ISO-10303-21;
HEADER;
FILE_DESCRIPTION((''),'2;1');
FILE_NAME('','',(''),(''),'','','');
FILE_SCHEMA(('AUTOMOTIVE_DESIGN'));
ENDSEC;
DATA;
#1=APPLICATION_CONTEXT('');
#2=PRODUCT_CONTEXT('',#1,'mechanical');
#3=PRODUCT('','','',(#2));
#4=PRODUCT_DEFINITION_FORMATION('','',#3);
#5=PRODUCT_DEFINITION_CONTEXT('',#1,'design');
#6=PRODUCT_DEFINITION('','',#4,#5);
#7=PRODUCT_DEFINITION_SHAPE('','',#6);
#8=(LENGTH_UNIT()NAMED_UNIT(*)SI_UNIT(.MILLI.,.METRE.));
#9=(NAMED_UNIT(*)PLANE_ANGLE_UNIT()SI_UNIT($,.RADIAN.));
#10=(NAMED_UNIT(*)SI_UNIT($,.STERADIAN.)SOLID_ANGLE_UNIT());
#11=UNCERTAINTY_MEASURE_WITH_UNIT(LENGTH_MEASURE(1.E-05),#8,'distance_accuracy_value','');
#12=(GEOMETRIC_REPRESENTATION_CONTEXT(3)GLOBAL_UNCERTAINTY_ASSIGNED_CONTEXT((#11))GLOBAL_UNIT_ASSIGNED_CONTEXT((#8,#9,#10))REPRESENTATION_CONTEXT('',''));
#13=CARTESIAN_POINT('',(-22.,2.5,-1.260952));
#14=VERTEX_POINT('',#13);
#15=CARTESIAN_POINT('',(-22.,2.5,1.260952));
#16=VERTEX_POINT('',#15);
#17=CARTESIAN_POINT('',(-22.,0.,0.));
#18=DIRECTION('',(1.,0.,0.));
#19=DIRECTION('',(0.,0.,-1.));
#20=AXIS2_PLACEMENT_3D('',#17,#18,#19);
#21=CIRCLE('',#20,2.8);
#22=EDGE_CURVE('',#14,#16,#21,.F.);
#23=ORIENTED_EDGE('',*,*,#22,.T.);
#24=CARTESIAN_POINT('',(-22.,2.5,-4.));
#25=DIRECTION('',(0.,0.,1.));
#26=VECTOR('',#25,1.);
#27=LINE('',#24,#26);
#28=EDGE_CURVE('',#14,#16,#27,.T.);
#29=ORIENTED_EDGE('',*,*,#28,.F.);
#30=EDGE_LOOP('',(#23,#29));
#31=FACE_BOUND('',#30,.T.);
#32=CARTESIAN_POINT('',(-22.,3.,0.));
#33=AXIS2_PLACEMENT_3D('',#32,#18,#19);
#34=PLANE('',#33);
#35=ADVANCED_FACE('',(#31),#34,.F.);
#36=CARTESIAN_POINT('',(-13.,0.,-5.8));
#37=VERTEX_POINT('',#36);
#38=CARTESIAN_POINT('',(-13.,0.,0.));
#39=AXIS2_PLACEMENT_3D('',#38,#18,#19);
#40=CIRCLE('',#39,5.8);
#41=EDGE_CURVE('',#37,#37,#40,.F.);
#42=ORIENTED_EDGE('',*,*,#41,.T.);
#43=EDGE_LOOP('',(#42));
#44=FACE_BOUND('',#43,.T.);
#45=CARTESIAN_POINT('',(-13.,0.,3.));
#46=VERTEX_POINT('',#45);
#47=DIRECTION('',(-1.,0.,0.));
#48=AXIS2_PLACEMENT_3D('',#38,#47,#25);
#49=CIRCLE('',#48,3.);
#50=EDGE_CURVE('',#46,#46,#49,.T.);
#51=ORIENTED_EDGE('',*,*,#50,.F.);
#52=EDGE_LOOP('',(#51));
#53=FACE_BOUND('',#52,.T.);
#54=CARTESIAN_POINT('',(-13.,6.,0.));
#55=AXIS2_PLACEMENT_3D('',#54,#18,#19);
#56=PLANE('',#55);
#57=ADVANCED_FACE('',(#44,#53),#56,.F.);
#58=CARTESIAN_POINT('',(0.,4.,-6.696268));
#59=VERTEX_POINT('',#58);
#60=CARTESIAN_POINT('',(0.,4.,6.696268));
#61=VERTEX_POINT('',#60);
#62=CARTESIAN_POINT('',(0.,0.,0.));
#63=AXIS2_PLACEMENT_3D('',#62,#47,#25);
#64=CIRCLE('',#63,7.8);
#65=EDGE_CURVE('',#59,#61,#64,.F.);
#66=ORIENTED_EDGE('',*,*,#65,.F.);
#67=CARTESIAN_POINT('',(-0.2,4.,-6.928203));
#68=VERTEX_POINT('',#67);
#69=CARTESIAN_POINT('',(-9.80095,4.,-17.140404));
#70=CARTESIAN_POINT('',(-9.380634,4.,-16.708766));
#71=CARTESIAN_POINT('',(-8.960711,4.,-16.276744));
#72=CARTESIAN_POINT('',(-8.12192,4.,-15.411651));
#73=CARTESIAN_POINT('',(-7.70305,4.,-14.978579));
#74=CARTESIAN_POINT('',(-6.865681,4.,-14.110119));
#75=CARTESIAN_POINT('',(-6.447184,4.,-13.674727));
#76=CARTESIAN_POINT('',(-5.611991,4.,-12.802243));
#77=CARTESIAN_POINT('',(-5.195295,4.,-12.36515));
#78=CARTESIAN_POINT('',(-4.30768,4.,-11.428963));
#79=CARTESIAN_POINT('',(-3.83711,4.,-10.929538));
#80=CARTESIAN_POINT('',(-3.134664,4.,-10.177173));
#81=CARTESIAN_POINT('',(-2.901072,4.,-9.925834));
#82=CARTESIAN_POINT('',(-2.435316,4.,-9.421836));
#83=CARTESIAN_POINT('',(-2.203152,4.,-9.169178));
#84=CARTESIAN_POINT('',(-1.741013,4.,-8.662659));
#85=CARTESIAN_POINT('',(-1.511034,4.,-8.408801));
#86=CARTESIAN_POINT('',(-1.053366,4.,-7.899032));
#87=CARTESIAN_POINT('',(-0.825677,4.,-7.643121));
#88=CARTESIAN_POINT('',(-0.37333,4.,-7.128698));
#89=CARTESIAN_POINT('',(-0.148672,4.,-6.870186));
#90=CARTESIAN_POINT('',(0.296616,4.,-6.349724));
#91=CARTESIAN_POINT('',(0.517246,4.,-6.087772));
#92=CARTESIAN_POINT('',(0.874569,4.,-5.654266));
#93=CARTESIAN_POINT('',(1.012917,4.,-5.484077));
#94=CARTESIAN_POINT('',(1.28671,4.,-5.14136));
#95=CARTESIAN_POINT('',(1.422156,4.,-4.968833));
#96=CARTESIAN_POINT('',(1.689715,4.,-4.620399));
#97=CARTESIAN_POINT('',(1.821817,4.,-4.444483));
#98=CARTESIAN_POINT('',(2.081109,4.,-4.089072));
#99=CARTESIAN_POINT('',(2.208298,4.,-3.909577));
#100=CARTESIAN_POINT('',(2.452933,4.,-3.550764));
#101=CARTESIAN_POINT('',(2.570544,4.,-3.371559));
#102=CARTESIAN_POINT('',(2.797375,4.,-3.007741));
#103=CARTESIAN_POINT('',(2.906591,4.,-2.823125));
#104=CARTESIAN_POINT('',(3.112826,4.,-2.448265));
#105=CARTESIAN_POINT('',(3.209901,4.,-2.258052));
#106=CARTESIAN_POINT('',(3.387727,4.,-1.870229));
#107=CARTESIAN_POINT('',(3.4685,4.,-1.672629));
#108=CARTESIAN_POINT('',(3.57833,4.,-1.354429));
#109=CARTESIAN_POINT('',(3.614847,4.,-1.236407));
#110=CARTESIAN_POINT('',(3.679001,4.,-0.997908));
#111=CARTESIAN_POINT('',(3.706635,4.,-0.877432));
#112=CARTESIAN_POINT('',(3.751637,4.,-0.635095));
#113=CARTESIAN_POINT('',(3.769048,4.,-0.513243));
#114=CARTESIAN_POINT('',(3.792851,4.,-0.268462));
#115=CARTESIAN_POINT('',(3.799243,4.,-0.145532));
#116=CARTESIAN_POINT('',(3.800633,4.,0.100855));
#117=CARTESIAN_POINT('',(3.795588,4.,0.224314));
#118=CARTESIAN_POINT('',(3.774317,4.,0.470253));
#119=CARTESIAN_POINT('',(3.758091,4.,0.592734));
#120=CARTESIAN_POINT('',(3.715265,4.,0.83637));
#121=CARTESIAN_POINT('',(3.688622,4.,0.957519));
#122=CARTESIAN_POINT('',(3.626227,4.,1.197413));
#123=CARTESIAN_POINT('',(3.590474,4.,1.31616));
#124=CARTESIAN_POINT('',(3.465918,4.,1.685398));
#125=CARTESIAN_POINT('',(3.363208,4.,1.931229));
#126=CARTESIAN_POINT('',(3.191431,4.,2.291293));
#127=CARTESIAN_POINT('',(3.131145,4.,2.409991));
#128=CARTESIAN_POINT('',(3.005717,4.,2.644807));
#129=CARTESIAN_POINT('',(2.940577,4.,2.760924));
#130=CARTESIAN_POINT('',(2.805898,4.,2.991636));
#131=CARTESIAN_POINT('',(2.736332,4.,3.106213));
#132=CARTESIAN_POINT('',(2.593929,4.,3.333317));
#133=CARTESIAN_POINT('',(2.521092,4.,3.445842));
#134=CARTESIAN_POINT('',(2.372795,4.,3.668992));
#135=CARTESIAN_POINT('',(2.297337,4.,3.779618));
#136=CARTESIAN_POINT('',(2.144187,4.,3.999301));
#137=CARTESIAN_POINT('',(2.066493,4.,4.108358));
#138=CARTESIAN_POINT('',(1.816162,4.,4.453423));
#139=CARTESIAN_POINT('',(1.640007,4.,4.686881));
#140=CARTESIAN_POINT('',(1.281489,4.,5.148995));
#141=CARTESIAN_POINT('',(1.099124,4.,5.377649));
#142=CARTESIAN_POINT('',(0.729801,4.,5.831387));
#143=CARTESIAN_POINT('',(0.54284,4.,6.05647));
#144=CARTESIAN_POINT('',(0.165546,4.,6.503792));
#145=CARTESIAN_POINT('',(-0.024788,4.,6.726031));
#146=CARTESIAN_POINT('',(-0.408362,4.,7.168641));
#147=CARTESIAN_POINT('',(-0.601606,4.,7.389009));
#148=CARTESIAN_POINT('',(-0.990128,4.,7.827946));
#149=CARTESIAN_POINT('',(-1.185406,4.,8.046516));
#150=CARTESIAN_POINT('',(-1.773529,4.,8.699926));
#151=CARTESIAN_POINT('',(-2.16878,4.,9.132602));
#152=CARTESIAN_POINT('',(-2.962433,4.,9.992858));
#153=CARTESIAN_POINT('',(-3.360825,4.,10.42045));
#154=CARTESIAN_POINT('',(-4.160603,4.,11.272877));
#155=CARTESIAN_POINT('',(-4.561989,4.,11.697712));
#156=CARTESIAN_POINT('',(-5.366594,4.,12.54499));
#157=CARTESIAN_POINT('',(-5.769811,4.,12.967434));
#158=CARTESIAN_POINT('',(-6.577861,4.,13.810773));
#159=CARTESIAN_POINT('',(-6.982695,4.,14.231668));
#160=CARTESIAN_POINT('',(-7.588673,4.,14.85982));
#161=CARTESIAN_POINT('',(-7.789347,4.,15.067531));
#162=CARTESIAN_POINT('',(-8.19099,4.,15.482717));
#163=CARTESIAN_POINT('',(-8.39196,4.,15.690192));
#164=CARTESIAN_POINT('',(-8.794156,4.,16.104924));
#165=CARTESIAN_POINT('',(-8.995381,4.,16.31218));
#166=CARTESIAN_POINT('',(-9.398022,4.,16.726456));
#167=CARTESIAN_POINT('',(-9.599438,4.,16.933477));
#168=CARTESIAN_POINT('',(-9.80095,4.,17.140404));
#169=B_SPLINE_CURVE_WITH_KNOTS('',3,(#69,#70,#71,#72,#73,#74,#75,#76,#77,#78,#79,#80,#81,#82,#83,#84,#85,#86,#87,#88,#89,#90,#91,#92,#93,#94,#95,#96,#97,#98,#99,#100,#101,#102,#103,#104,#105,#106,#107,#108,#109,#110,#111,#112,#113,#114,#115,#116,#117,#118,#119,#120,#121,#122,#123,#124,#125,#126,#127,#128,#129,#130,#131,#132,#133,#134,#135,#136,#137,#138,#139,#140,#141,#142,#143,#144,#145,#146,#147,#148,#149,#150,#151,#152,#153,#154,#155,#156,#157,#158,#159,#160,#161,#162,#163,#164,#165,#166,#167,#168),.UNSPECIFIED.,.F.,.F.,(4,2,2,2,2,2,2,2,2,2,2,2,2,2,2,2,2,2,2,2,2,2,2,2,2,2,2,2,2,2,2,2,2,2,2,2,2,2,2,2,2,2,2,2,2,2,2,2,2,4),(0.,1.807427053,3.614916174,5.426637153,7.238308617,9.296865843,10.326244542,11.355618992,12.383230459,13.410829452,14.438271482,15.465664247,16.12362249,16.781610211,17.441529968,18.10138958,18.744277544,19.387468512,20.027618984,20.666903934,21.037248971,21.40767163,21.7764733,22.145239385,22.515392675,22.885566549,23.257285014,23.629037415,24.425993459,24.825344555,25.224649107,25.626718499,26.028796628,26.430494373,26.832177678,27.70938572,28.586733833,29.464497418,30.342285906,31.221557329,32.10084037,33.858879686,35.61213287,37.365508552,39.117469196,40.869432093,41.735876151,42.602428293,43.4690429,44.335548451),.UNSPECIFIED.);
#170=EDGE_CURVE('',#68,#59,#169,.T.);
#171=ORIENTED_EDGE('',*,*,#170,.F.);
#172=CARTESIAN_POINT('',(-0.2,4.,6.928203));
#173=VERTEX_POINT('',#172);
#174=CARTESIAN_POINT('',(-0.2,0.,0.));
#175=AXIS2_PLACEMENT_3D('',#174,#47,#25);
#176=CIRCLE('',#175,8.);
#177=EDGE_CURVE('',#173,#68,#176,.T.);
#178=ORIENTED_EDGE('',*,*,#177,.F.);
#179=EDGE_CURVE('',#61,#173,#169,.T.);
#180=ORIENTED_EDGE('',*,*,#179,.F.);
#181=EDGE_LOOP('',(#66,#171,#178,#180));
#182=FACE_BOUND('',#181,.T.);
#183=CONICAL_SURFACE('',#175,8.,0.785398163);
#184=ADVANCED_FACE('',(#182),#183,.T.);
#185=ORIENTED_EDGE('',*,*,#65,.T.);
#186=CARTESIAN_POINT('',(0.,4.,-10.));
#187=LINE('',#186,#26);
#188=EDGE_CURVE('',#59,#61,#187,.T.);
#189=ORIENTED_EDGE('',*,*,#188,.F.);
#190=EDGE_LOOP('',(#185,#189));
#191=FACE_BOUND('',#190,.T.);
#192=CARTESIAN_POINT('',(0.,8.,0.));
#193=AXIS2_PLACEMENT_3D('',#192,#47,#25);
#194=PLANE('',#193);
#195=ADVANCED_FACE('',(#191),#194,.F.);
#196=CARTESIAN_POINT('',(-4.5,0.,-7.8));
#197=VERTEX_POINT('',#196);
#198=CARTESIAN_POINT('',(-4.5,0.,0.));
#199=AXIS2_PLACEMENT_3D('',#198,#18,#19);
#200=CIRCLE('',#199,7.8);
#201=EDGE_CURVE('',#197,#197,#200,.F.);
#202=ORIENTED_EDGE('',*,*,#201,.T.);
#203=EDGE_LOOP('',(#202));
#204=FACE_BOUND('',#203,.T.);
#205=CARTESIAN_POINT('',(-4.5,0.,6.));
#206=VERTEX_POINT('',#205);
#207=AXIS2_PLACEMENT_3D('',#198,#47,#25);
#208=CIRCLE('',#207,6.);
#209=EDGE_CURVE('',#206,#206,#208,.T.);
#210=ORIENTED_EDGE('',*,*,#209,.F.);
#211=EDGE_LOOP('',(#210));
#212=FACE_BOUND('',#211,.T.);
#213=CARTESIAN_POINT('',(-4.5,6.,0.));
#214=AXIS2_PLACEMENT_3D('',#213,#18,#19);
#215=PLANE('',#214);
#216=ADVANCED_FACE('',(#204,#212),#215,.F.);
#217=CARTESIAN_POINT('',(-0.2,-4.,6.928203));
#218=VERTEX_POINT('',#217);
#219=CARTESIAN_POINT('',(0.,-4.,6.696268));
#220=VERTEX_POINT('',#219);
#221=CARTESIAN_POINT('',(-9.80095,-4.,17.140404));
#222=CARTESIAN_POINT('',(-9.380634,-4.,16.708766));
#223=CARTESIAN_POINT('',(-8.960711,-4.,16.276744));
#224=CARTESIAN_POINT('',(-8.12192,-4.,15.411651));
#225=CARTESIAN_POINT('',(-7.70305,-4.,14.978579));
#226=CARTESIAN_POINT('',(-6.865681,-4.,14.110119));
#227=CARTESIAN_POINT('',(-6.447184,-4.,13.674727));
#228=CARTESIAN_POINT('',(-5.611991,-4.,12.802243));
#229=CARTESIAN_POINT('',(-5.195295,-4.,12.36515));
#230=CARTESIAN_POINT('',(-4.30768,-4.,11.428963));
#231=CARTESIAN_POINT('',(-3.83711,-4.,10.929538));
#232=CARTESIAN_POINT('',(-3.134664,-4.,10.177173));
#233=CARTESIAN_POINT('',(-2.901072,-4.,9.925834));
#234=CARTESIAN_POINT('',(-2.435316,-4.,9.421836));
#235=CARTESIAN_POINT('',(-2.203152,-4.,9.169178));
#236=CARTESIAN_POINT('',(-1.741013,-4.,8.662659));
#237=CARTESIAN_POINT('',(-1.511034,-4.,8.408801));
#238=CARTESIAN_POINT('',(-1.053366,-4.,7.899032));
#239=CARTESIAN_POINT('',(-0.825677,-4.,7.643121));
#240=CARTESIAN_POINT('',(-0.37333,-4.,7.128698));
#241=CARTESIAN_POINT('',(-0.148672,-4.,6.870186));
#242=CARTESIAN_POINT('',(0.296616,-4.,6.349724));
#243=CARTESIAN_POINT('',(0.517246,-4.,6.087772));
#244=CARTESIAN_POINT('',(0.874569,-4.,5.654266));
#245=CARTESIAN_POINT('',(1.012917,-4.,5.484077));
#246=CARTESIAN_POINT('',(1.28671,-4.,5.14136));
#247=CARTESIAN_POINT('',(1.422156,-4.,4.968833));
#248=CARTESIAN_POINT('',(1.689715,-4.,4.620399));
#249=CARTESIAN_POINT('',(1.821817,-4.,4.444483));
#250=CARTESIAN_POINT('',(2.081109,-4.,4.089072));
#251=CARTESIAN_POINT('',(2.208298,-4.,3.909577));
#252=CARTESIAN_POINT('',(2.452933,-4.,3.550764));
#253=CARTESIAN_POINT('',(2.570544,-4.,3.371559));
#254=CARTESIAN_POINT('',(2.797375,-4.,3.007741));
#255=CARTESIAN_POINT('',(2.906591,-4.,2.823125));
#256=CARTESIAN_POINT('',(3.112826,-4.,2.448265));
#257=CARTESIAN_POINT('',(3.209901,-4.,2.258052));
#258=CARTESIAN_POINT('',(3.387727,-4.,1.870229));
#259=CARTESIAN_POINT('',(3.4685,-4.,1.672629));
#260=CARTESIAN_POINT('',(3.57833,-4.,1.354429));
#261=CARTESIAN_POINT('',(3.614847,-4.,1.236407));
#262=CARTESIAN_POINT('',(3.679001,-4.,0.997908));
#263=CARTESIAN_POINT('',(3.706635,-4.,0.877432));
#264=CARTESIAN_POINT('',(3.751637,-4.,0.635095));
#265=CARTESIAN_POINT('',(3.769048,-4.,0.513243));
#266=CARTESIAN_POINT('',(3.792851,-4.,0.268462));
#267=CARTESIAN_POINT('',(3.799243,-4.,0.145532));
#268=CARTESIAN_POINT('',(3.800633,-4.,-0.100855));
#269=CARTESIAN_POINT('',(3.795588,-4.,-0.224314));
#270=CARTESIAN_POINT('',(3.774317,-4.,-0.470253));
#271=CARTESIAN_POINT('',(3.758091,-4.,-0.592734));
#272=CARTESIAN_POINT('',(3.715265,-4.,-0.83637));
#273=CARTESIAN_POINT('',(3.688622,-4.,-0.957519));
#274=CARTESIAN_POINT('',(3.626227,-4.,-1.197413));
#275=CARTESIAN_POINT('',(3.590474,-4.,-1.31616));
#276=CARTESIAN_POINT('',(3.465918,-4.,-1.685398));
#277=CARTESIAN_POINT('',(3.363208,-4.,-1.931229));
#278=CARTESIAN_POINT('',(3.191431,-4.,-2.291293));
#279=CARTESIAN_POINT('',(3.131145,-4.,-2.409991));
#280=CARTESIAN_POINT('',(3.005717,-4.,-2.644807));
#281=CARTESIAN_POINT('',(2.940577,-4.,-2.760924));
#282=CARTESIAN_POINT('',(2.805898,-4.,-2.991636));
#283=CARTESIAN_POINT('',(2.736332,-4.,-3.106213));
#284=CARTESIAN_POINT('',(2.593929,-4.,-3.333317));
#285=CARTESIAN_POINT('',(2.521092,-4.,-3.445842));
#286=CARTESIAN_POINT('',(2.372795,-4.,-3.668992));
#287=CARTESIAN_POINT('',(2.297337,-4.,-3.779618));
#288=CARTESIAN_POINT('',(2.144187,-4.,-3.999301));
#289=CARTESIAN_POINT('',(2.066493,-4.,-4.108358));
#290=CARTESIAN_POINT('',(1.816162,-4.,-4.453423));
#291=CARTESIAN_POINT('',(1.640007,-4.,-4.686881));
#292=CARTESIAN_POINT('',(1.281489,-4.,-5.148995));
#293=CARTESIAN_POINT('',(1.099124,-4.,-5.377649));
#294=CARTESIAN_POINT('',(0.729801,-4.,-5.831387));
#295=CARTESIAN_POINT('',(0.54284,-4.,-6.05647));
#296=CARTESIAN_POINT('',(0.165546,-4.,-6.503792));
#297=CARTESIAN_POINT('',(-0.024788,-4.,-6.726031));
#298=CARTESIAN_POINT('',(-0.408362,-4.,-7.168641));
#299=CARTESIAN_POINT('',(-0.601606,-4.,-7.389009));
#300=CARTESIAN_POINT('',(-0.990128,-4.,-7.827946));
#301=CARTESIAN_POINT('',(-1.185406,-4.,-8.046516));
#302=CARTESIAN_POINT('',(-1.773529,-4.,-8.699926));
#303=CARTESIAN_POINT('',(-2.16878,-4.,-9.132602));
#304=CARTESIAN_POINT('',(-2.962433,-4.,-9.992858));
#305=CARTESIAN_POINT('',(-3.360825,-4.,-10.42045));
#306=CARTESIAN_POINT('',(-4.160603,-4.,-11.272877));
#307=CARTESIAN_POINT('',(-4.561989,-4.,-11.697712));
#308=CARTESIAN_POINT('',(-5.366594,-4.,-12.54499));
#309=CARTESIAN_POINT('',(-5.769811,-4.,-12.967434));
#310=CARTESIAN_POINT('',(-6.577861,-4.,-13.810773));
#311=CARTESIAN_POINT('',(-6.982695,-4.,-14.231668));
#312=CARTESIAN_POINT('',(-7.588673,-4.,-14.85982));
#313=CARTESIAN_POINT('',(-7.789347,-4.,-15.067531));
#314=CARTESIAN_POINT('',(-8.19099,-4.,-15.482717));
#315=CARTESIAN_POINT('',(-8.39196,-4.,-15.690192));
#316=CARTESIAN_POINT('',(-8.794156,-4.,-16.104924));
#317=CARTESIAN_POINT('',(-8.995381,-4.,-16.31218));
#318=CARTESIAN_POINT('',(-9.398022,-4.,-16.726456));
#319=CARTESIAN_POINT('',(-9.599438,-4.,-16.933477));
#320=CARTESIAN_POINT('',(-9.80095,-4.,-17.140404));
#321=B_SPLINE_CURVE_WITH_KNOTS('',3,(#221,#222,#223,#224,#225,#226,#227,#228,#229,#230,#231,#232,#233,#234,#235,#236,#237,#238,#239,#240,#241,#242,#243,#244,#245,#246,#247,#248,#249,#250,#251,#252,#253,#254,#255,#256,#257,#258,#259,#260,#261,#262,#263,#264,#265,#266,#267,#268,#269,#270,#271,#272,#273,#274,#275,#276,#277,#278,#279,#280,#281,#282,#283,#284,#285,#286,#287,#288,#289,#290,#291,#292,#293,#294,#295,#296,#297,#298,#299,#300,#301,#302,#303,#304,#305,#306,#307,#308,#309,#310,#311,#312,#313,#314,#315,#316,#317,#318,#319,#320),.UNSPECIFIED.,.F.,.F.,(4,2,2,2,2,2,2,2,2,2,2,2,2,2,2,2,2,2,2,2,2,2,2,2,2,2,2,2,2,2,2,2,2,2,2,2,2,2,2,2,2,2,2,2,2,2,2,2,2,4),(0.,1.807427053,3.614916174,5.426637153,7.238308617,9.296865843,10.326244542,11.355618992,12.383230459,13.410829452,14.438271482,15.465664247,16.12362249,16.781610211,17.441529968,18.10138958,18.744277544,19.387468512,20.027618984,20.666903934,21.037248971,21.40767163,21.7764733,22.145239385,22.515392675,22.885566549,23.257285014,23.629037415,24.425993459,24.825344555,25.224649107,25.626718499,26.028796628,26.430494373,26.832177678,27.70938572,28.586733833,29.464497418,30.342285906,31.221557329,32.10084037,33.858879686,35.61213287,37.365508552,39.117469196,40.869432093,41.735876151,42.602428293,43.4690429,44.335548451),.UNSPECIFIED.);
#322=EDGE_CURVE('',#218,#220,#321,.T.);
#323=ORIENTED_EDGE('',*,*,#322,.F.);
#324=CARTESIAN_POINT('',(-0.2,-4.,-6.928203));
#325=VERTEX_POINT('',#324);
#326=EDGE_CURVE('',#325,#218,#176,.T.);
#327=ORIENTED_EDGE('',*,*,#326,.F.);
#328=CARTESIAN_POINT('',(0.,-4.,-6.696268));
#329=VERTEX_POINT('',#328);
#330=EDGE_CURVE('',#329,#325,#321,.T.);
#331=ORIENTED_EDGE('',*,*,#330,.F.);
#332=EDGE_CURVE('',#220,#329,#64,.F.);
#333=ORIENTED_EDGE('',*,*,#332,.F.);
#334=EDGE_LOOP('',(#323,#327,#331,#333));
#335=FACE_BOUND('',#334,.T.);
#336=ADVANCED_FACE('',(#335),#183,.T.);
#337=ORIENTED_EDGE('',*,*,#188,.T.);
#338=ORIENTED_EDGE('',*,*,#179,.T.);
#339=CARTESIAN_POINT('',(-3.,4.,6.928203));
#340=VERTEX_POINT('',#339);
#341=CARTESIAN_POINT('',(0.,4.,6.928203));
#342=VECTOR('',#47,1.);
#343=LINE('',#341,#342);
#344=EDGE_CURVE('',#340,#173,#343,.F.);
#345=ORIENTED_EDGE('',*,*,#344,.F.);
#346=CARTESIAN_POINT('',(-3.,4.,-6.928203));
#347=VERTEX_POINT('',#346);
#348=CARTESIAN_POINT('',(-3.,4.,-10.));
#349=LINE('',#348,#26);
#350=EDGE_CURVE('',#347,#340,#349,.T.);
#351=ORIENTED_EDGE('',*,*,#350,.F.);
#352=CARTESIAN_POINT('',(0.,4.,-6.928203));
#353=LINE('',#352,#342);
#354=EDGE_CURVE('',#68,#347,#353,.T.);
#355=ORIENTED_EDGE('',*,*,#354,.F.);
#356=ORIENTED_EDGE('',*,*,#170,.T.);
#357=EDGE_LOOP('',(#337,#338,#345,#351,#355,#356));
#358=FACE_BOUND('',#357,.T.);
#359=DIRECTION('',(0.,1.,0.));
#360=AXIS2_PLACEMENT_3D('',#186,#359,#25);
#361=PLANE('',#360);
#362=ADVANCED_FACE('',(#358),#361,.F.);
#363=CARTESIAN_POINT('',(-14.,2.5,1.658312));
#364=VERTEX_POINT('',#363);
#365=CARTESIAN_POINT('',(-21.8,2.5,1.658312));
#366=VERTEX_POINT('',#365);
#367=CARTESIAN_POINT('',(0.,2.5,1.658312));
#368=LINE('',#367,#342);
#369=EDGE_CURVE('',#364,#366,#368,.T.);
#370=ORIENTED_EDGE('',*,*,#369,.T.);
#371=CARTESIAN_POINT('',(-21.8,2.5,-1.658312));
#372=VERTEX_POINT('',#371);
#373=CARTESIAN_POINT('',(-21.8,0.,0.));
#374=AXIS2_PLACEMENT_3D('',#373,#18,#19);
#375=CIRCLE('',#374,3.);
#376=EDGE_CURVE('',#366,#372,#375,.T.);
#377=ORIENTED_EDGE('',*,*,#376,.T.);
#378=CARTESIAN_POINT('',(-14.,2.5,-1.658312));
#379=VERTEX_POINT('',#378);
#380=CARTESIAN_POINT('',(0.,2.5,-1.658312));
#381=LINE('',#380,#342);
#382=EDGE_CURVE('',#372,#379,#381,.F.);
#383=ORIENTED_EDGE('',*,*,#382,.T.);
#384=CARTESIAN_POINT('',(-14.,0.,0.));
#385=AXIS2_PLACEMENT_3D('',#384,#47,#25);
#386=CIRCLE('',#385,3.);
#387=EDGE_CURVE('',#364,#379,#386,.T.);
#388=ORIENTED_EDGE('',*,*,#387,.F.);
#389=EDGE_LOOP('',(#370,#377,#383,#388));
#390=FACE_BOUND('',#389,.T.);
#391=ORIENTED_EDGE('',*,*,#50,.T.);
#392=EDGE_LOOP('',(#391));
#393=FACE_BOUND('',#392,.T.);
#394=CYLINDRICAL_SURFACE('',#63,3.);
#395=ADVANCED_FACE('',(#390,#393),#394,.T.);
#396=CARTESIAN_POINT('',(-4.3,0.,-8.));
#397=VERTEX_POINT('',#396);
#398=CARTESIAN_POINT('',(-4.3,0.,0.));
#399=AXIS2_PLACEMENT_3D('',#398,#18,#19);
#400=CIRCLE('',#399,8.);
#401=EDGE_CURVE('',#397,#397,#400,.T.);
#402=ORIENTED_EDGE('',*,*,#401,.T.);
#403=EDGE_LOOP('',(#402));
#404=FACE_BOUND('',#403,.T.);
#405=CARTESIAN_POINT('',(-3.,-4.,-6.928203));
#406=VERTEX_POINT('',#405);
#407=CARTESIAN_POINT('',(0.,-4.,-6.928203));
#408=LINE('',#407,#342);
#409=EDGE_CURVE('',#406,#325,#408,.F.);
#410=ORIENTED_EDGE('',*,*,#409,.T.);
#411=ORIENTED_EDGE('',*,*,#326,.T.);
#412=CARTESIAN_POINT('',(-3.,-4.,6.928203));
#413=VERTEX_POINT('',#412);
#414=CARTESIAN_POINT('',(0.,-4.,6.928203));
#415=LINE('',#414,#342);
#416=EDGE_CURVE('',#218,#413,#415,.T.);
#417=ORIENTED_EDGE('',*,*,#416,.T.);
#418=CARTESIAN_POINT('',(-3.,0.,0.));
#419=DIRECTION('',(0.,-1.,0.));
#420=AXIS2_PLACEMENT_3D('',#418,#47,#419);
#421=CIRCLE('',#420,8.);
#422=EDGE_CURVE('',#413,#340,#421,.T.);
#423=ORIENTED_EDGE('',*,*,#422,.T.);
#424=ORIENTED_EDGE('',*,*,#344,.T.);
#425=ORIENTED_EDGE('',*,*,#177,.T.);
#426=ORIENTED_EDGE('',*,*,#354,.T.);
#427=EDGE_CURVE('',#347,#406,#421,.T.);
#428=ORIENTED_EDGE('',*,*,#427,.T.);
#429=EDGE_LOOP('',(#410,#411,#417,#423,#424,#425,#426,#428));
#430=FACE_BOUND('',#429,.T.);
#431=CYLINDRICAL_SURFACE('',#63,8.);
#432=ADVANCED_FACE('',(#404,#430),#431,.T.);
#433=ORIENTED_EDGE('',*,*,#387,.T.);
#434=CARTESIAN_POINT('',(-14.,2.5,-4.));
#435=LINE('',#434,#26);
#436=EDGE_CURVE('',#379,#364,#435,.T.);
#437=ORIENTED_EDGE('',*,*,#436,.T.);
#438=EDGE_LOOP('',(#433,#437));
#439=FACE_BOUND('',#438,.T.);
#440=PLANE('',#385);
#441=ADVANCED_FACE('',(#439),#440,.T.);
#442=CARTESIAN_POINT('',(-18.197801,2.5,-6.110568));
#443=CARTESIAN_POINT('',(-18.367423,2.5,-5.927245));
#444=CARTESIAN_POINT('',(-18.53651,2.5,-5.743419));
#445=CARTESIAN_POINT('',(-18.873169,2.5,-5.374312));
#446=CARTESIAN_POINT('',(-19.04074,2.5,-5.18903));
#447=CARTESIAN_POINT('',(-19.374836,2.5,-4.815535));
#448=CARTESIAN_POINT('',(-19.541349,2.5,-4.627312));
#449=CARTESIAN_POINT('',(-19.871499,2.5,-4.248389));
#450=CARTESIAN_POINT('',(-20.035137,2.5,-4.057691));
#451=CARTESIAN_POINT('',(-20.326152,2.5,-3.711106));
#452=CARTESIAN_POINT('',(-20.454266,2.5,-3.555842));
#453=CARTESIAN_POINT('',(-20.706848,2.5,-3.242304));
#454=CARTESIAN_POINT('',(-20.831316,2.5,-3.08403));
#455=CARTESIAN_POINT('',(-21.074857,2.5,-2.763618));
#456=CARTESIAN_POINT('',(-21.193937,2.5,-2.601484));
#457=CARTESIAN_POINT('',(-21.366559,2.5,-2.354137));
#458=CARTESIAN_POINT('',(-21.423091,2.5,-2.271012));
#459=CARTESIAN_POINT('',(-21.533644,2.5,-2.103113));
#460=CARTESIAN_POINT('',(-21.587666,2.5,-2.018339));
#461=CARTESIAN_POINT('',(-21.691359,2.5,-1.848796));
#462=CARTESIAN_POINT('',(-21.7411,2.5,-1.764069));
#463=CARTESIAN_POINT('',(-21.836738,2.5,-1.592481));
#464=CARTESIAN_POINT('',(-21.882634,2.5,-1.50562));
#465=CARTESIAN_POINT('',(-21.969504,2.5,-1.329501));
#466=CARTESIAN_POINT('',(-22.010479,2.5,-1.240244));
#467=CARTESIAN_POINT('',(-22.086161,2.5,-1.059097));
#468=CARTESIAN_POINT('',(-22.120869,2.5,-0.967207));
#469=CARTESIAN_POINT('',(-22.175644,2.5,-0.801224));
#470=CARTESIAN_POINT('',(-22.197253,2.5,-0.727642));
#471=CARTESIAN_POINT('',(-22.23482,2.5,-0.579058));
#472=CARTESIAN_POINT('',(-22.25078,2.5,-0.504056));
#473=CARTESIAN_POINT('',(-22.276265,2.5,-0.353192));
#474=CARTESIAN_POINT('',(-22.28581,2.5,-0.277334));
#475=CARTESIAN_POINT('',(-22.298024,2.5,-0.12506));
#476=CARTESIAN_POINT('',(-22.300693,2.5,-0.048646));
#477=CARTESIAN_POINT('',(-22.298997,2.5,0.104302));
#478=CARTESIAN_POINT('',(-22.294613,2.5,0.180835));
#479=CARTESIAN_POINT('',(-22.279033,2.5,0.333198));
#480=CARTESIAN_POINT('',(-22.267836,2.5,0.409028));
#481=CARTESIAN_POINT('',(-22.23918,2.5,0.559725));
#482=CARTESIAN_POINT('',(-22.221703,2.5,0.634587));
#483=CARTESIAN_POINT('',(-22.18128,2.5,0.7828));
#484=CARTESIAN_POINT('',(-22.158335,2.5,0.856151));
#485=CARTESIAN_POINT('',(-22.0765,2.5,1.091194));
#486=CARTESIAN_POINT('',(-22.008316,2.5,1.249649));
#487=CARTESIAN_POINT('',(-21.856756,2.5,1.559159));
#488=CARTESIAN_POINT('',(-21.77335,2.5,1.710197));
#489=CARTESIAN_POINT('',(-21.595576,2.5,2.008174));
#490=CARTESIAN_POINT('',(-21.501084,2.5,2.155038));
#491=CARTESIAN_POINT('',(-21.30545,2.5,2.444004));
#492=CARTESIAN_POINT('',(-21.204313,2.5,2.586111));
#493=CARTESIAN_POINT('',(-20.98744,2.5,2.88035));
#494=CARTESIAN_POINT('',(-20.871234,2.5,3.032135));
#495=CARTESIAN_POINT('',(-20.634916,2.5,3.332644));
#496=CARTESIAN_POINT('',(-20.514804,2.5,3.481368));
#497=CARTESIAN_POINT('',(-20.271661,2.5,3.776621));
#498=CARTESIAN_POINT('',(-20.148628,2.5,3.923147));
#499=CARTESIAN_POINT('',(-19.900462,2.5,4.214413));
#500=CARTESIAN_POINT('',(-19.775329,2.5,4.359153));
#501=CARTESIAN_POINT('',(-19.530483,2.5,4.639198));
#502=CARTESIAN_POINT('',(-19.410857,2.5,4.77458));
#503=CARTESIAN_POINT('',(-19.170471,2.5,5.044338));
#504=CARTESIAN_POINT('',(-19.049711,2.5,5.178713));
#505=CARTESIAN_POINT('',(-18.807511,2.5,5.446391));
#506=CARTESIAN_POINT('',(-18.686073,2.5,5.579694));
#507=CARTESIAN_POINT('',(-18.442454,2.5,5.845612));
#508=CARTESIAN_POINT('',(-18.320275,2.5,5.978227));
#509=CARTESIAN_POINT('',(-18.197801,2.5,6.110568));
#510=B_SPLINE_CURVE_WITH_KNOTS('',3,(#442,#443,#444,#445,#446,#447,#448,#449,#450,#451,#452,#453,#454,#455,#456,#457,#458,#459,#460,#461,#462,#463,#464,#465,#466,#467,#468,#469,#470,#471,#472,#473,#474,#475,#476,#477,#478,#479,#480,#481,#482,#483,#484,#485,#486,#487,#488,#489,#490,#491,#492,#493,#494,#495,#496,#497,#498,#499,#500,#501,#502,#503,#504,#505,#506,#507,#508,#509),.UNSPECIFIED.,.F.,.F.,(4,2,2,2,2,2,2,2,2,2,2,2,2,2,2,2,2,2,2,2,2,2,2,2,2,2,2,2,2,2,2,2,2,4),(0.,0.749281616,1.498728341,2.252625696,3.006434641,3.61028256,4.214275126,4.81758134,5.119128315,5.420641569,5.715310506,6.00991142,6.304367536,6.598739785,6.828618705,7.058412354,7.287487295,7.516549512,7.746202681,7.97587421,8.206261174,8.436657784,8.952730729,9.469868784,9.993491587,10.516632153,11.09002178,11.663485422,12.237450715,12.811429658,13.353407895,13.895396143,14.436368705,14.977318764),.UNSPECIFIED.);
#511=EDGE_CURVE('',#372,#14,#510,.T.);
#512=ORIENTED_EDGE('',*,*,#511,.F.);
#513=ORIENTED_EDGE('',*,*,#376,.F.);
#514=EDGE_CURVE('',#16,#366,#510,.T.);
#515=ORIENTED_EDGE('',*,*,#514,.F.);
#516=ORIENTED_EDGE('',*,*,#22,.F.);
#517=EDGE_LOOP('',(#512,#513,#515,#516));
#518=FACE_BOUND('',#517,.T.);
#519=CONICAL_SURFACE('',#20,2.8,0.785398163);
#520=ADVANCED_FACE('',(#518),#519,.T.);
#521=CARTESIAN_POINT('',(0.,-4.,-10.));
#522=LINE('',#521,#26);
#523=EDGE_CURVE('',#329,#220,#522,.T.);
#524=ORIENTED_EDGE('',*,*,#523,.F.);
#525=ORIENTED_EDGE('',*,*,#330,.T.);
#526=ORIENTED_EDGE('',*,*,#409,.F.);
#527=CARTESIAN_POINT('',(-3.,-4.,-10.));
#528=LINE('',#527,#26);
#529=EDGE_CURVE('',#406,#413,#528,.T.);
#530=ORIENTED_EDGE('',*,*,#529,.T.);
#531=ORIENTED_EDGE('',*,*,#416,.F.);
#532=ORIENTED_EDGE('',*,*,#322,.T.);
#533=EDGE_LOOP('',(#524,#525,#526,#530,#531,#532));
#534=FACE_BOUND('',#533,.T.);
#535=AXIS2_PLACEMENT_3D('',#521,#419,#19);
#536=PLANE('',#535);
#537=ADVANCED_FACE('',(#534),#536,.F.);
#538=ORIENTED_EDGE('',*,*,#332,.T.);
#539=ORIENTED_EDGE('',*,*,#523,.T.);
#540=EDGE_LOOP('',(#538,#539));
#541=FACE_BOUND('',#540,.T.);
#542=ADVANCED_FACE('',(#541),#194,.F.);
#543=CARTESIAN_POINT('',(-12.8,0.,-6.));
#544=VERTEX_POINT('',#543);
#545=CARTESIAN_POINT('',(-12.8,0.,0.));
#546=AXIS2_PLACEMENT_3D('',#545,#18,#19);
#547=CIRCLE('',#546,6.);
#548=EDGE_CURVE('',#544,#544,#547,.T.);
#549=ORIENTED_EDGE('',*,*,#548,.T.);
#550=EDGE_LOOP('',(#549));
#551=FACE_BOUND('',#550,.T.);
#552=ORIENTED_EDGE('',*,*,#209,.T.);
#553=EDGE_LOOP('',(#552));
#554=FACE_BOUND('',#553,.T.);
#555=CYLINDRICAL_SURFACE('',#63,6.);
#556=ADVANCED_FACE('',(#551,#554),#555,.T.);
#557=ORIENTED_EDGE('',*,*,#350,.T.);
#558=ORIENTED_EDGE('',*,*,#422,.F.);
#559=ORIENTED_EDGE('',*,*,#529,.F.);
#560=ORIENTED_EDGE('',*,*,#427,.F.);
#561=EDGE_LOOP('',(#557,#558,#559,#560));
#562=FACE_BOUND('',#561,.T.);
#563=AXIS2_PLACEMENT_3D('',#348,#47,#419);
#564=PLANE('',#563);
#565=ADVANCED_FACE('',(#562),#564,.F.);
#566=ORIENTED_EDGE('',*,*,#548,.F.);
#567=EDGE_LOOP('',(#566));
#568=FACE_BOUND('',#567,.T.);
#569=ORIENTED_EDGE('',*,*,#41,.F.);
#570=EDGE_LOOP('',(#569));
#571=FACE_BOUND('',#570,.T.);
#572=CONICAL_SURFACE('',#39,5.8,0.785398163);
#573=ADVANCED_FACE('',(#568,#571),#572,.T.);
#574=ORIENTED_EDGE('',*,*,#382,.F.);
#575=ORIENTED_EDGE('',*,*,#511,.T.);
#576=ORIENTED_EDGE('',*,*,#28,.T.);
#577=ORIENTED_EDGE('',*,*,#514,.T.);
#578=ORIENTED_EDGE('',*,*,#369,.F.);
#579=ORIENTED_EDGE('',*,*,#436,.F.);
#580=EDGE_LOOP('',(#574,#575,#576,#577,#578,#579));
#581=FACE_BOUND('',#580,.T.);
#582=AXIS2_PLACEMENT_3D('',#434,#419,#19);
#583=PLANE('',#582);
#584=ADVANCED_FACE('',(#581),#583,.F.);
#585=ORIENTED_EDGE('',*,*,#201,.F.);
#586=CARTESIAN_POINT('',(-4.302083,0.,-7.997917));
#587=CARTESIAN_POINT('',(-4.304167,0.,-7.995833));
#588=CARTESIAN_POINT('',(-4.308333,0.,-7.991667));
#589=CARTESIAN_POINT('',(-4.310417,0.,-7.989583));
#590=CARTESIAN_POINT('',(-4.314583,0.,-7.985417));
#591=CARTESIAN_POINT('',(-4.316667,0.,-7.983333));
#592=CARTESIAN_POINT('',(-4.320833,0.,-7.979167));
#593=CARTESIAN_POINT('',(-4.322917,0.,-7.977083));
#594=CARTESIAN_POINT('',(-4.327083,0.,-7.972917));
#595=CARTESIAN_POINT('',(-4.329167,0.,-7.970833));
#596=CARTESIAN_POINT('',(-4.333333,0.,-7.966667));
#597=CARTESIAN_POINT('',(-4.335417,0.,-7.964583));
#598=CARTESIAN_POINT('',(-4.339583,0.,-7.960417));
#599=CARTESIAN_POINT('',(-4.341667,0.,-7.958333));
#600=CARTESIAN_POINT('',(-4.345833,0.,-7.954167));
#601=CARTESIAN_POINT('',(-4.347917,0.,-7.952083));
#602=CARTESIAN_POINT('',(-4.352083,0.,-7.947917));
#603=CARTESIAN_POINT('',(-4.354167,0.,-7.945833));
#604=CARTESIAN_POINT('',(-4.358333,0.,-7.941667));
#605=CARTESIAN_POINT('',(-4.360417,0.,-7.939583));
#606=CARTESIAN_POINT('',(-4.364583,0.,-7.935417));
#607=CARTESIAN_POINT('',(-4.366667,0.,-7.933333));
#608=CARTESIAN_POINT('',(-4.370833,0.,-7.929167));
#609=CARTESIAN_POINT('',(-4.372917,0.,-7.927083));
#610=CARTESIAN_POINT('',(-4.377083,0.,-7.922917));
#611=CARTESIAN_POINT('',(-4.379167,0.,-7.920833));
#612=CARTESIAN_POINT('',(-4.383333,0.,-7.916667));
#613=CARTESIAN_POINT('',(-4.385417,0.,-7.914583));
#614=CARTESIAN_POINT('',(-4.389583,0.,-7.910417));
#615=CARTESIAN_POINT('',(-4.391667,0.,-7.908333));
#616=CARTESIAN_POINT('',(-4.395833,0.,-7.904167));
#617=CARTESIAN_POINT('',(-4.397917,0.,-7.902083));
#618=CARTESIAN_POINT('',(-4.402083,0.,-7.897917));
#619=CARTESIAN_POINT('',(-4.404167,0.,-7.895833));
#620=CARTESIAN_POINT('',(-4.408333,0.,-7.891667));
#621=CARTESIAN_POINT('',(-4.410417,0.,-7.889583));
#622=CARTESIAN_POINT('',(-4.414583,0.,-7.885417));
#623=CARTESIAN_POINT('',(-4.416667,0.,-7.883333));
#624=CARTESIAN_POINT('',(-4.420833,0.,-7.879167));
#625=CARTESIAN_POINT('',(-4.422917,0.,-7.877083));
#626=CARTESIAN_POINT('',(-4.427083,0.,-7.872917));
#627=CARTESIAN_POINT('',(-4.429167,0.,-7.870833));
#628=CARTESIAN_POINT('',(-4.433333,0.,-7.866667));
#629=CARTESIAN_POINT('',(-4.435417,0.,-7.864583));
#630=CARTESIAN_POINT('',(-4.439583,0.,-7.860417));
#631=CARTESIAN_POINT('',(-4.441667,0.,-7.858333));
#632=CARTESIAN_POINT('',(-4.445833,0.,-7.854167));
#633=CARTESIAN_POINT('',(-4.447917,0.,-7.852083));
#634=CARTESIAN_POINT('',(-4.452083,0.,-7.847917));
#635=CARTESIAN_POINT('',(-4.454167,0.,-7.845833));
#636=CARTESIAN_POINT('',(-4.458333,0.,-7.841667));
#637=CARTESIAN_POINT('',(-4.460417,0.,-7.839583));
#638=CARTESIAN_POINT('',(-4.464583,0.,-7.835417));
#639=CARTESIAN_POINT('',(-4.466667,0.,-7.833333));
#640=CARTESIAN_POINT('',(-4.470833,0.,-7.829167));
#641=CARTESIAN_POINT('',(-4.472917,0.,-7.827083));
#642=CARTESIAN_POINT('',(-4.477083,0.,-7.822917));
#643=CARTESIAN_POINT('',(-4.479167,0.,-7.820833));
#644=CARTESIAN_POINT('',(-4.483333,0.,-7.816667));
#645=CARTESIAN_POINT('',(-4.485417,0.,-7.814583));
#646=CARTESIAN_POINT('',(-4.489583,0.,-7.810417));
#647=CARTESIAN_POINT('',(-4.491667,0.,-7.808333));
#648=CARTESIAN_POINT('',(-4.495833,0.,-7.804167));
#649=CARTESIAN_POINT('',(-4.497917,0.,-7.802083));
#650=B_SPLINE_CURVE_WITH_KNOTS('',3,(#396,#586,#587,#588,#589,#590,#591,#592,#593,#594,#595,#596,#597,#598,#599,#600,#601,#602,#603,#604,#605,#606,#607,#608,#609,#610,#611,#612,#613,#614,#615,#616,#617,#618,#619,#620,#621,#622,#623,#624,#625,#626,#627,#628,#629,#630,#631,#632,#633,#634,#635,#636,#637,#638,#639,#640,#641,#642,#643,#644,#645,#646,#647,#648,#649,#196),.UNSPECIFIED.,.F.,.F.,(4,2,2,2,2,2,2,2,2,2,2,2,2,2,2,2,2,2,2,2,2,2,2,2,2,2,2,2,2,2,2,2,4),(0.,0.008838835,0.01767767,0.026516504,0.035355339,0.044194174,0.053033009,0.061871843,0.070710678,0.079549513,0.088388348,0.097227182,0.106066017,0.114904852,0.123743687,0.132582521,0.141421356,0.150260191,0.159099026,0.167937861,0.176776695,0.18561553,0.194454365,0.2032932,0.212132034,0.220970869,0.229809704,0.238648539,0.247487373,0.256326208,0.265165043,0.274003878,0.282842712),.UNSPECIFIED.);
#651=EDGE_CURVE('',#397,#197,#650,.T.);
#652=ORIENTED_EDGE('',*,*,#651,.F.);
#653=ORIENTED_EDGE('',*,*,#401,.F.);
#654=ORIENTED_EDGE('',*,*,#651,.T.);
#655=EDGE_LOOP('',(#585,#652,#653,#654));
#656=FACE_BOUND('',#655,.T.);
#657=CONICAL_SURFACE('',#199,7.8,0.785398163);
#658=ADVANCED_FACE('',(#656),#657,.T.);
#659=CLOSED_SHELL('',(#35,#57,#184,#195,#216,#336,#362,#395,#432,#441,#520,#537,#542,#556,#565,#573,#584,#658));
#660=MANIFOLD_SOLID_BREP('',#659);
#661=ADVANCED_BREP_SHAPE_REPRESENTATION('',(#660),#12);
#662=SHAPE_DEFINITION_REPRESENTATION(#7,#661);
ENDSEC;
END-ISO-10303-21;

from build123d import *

# Parameters (mm, degrees)
CHANFREIN1_SIZE         = 0.2
ESQUISSE3_W             = 8
ESQUISSE3_H             = 2
ENL_V_MAT_EXTRU_2_DEPTH = 8
ESQUISSE4_W             = 3
ESQUISSE4_H             = 8
ENL_V_MAT_EXTRU_3_DEPTH = 10


with BuildPart() as part:
    # Esquisse1 → Révolution1 (revolve)
    with BuildSketch(Plane.XY, mode=Mode.PRIVATE) as r_volution1_sk:
        Polygon((-4.5, 6), (-13, 6), (-13, 3), (-22, 3), (-22, 0), (0, 0), (0, 8), (-4.5, 8), align=None)
    revolve(r_volution1_sk.sketch.rotate(Axis((0, 0, 0), (1, 0, 0)), 90), axis=Axis((0, 0, 0), (1, 0, 0)))

    # Chanfrein1
    chanfrein1_edges = [part.edges().sort_by_distance(p)[0] for p in [
        (0, 0, -8),
        (-4.5, 0, -8),
        (-13, 0, -6),
        (-22, 0, -3),
    ]]
    chamfer(chanfrein1_edges, length=CHANFREIN1_SIZE)

    # Esquisse3 → Enlèv. mat.-Extru.2 (cut)
    with BuildSketch(Plane.ZY.offset(22)):
        with Locations((0, 3.5)):
            Rectangle(ESQUISSE3_W, ESQUISSE3_H)
    extrude(amount=-ENL_V_MAT_EXTRU_2_DEPTH, mode=Mode.SUBTRACT)

    # Esquisse4 → Enlèv. mat.-Extru.3 (cut, symmetric)
    with BuildSketch(Plane.XY):
        with Locations((-1.5, 0)):
            Rectangle(ESQUISSE4_W, ESQUISSE4_H)
    extrude(amount=ENL_V_MAT_EXTRU_3_DEPTH, both=True, mode=Mode.SUBTRACT)


solid = part.part
